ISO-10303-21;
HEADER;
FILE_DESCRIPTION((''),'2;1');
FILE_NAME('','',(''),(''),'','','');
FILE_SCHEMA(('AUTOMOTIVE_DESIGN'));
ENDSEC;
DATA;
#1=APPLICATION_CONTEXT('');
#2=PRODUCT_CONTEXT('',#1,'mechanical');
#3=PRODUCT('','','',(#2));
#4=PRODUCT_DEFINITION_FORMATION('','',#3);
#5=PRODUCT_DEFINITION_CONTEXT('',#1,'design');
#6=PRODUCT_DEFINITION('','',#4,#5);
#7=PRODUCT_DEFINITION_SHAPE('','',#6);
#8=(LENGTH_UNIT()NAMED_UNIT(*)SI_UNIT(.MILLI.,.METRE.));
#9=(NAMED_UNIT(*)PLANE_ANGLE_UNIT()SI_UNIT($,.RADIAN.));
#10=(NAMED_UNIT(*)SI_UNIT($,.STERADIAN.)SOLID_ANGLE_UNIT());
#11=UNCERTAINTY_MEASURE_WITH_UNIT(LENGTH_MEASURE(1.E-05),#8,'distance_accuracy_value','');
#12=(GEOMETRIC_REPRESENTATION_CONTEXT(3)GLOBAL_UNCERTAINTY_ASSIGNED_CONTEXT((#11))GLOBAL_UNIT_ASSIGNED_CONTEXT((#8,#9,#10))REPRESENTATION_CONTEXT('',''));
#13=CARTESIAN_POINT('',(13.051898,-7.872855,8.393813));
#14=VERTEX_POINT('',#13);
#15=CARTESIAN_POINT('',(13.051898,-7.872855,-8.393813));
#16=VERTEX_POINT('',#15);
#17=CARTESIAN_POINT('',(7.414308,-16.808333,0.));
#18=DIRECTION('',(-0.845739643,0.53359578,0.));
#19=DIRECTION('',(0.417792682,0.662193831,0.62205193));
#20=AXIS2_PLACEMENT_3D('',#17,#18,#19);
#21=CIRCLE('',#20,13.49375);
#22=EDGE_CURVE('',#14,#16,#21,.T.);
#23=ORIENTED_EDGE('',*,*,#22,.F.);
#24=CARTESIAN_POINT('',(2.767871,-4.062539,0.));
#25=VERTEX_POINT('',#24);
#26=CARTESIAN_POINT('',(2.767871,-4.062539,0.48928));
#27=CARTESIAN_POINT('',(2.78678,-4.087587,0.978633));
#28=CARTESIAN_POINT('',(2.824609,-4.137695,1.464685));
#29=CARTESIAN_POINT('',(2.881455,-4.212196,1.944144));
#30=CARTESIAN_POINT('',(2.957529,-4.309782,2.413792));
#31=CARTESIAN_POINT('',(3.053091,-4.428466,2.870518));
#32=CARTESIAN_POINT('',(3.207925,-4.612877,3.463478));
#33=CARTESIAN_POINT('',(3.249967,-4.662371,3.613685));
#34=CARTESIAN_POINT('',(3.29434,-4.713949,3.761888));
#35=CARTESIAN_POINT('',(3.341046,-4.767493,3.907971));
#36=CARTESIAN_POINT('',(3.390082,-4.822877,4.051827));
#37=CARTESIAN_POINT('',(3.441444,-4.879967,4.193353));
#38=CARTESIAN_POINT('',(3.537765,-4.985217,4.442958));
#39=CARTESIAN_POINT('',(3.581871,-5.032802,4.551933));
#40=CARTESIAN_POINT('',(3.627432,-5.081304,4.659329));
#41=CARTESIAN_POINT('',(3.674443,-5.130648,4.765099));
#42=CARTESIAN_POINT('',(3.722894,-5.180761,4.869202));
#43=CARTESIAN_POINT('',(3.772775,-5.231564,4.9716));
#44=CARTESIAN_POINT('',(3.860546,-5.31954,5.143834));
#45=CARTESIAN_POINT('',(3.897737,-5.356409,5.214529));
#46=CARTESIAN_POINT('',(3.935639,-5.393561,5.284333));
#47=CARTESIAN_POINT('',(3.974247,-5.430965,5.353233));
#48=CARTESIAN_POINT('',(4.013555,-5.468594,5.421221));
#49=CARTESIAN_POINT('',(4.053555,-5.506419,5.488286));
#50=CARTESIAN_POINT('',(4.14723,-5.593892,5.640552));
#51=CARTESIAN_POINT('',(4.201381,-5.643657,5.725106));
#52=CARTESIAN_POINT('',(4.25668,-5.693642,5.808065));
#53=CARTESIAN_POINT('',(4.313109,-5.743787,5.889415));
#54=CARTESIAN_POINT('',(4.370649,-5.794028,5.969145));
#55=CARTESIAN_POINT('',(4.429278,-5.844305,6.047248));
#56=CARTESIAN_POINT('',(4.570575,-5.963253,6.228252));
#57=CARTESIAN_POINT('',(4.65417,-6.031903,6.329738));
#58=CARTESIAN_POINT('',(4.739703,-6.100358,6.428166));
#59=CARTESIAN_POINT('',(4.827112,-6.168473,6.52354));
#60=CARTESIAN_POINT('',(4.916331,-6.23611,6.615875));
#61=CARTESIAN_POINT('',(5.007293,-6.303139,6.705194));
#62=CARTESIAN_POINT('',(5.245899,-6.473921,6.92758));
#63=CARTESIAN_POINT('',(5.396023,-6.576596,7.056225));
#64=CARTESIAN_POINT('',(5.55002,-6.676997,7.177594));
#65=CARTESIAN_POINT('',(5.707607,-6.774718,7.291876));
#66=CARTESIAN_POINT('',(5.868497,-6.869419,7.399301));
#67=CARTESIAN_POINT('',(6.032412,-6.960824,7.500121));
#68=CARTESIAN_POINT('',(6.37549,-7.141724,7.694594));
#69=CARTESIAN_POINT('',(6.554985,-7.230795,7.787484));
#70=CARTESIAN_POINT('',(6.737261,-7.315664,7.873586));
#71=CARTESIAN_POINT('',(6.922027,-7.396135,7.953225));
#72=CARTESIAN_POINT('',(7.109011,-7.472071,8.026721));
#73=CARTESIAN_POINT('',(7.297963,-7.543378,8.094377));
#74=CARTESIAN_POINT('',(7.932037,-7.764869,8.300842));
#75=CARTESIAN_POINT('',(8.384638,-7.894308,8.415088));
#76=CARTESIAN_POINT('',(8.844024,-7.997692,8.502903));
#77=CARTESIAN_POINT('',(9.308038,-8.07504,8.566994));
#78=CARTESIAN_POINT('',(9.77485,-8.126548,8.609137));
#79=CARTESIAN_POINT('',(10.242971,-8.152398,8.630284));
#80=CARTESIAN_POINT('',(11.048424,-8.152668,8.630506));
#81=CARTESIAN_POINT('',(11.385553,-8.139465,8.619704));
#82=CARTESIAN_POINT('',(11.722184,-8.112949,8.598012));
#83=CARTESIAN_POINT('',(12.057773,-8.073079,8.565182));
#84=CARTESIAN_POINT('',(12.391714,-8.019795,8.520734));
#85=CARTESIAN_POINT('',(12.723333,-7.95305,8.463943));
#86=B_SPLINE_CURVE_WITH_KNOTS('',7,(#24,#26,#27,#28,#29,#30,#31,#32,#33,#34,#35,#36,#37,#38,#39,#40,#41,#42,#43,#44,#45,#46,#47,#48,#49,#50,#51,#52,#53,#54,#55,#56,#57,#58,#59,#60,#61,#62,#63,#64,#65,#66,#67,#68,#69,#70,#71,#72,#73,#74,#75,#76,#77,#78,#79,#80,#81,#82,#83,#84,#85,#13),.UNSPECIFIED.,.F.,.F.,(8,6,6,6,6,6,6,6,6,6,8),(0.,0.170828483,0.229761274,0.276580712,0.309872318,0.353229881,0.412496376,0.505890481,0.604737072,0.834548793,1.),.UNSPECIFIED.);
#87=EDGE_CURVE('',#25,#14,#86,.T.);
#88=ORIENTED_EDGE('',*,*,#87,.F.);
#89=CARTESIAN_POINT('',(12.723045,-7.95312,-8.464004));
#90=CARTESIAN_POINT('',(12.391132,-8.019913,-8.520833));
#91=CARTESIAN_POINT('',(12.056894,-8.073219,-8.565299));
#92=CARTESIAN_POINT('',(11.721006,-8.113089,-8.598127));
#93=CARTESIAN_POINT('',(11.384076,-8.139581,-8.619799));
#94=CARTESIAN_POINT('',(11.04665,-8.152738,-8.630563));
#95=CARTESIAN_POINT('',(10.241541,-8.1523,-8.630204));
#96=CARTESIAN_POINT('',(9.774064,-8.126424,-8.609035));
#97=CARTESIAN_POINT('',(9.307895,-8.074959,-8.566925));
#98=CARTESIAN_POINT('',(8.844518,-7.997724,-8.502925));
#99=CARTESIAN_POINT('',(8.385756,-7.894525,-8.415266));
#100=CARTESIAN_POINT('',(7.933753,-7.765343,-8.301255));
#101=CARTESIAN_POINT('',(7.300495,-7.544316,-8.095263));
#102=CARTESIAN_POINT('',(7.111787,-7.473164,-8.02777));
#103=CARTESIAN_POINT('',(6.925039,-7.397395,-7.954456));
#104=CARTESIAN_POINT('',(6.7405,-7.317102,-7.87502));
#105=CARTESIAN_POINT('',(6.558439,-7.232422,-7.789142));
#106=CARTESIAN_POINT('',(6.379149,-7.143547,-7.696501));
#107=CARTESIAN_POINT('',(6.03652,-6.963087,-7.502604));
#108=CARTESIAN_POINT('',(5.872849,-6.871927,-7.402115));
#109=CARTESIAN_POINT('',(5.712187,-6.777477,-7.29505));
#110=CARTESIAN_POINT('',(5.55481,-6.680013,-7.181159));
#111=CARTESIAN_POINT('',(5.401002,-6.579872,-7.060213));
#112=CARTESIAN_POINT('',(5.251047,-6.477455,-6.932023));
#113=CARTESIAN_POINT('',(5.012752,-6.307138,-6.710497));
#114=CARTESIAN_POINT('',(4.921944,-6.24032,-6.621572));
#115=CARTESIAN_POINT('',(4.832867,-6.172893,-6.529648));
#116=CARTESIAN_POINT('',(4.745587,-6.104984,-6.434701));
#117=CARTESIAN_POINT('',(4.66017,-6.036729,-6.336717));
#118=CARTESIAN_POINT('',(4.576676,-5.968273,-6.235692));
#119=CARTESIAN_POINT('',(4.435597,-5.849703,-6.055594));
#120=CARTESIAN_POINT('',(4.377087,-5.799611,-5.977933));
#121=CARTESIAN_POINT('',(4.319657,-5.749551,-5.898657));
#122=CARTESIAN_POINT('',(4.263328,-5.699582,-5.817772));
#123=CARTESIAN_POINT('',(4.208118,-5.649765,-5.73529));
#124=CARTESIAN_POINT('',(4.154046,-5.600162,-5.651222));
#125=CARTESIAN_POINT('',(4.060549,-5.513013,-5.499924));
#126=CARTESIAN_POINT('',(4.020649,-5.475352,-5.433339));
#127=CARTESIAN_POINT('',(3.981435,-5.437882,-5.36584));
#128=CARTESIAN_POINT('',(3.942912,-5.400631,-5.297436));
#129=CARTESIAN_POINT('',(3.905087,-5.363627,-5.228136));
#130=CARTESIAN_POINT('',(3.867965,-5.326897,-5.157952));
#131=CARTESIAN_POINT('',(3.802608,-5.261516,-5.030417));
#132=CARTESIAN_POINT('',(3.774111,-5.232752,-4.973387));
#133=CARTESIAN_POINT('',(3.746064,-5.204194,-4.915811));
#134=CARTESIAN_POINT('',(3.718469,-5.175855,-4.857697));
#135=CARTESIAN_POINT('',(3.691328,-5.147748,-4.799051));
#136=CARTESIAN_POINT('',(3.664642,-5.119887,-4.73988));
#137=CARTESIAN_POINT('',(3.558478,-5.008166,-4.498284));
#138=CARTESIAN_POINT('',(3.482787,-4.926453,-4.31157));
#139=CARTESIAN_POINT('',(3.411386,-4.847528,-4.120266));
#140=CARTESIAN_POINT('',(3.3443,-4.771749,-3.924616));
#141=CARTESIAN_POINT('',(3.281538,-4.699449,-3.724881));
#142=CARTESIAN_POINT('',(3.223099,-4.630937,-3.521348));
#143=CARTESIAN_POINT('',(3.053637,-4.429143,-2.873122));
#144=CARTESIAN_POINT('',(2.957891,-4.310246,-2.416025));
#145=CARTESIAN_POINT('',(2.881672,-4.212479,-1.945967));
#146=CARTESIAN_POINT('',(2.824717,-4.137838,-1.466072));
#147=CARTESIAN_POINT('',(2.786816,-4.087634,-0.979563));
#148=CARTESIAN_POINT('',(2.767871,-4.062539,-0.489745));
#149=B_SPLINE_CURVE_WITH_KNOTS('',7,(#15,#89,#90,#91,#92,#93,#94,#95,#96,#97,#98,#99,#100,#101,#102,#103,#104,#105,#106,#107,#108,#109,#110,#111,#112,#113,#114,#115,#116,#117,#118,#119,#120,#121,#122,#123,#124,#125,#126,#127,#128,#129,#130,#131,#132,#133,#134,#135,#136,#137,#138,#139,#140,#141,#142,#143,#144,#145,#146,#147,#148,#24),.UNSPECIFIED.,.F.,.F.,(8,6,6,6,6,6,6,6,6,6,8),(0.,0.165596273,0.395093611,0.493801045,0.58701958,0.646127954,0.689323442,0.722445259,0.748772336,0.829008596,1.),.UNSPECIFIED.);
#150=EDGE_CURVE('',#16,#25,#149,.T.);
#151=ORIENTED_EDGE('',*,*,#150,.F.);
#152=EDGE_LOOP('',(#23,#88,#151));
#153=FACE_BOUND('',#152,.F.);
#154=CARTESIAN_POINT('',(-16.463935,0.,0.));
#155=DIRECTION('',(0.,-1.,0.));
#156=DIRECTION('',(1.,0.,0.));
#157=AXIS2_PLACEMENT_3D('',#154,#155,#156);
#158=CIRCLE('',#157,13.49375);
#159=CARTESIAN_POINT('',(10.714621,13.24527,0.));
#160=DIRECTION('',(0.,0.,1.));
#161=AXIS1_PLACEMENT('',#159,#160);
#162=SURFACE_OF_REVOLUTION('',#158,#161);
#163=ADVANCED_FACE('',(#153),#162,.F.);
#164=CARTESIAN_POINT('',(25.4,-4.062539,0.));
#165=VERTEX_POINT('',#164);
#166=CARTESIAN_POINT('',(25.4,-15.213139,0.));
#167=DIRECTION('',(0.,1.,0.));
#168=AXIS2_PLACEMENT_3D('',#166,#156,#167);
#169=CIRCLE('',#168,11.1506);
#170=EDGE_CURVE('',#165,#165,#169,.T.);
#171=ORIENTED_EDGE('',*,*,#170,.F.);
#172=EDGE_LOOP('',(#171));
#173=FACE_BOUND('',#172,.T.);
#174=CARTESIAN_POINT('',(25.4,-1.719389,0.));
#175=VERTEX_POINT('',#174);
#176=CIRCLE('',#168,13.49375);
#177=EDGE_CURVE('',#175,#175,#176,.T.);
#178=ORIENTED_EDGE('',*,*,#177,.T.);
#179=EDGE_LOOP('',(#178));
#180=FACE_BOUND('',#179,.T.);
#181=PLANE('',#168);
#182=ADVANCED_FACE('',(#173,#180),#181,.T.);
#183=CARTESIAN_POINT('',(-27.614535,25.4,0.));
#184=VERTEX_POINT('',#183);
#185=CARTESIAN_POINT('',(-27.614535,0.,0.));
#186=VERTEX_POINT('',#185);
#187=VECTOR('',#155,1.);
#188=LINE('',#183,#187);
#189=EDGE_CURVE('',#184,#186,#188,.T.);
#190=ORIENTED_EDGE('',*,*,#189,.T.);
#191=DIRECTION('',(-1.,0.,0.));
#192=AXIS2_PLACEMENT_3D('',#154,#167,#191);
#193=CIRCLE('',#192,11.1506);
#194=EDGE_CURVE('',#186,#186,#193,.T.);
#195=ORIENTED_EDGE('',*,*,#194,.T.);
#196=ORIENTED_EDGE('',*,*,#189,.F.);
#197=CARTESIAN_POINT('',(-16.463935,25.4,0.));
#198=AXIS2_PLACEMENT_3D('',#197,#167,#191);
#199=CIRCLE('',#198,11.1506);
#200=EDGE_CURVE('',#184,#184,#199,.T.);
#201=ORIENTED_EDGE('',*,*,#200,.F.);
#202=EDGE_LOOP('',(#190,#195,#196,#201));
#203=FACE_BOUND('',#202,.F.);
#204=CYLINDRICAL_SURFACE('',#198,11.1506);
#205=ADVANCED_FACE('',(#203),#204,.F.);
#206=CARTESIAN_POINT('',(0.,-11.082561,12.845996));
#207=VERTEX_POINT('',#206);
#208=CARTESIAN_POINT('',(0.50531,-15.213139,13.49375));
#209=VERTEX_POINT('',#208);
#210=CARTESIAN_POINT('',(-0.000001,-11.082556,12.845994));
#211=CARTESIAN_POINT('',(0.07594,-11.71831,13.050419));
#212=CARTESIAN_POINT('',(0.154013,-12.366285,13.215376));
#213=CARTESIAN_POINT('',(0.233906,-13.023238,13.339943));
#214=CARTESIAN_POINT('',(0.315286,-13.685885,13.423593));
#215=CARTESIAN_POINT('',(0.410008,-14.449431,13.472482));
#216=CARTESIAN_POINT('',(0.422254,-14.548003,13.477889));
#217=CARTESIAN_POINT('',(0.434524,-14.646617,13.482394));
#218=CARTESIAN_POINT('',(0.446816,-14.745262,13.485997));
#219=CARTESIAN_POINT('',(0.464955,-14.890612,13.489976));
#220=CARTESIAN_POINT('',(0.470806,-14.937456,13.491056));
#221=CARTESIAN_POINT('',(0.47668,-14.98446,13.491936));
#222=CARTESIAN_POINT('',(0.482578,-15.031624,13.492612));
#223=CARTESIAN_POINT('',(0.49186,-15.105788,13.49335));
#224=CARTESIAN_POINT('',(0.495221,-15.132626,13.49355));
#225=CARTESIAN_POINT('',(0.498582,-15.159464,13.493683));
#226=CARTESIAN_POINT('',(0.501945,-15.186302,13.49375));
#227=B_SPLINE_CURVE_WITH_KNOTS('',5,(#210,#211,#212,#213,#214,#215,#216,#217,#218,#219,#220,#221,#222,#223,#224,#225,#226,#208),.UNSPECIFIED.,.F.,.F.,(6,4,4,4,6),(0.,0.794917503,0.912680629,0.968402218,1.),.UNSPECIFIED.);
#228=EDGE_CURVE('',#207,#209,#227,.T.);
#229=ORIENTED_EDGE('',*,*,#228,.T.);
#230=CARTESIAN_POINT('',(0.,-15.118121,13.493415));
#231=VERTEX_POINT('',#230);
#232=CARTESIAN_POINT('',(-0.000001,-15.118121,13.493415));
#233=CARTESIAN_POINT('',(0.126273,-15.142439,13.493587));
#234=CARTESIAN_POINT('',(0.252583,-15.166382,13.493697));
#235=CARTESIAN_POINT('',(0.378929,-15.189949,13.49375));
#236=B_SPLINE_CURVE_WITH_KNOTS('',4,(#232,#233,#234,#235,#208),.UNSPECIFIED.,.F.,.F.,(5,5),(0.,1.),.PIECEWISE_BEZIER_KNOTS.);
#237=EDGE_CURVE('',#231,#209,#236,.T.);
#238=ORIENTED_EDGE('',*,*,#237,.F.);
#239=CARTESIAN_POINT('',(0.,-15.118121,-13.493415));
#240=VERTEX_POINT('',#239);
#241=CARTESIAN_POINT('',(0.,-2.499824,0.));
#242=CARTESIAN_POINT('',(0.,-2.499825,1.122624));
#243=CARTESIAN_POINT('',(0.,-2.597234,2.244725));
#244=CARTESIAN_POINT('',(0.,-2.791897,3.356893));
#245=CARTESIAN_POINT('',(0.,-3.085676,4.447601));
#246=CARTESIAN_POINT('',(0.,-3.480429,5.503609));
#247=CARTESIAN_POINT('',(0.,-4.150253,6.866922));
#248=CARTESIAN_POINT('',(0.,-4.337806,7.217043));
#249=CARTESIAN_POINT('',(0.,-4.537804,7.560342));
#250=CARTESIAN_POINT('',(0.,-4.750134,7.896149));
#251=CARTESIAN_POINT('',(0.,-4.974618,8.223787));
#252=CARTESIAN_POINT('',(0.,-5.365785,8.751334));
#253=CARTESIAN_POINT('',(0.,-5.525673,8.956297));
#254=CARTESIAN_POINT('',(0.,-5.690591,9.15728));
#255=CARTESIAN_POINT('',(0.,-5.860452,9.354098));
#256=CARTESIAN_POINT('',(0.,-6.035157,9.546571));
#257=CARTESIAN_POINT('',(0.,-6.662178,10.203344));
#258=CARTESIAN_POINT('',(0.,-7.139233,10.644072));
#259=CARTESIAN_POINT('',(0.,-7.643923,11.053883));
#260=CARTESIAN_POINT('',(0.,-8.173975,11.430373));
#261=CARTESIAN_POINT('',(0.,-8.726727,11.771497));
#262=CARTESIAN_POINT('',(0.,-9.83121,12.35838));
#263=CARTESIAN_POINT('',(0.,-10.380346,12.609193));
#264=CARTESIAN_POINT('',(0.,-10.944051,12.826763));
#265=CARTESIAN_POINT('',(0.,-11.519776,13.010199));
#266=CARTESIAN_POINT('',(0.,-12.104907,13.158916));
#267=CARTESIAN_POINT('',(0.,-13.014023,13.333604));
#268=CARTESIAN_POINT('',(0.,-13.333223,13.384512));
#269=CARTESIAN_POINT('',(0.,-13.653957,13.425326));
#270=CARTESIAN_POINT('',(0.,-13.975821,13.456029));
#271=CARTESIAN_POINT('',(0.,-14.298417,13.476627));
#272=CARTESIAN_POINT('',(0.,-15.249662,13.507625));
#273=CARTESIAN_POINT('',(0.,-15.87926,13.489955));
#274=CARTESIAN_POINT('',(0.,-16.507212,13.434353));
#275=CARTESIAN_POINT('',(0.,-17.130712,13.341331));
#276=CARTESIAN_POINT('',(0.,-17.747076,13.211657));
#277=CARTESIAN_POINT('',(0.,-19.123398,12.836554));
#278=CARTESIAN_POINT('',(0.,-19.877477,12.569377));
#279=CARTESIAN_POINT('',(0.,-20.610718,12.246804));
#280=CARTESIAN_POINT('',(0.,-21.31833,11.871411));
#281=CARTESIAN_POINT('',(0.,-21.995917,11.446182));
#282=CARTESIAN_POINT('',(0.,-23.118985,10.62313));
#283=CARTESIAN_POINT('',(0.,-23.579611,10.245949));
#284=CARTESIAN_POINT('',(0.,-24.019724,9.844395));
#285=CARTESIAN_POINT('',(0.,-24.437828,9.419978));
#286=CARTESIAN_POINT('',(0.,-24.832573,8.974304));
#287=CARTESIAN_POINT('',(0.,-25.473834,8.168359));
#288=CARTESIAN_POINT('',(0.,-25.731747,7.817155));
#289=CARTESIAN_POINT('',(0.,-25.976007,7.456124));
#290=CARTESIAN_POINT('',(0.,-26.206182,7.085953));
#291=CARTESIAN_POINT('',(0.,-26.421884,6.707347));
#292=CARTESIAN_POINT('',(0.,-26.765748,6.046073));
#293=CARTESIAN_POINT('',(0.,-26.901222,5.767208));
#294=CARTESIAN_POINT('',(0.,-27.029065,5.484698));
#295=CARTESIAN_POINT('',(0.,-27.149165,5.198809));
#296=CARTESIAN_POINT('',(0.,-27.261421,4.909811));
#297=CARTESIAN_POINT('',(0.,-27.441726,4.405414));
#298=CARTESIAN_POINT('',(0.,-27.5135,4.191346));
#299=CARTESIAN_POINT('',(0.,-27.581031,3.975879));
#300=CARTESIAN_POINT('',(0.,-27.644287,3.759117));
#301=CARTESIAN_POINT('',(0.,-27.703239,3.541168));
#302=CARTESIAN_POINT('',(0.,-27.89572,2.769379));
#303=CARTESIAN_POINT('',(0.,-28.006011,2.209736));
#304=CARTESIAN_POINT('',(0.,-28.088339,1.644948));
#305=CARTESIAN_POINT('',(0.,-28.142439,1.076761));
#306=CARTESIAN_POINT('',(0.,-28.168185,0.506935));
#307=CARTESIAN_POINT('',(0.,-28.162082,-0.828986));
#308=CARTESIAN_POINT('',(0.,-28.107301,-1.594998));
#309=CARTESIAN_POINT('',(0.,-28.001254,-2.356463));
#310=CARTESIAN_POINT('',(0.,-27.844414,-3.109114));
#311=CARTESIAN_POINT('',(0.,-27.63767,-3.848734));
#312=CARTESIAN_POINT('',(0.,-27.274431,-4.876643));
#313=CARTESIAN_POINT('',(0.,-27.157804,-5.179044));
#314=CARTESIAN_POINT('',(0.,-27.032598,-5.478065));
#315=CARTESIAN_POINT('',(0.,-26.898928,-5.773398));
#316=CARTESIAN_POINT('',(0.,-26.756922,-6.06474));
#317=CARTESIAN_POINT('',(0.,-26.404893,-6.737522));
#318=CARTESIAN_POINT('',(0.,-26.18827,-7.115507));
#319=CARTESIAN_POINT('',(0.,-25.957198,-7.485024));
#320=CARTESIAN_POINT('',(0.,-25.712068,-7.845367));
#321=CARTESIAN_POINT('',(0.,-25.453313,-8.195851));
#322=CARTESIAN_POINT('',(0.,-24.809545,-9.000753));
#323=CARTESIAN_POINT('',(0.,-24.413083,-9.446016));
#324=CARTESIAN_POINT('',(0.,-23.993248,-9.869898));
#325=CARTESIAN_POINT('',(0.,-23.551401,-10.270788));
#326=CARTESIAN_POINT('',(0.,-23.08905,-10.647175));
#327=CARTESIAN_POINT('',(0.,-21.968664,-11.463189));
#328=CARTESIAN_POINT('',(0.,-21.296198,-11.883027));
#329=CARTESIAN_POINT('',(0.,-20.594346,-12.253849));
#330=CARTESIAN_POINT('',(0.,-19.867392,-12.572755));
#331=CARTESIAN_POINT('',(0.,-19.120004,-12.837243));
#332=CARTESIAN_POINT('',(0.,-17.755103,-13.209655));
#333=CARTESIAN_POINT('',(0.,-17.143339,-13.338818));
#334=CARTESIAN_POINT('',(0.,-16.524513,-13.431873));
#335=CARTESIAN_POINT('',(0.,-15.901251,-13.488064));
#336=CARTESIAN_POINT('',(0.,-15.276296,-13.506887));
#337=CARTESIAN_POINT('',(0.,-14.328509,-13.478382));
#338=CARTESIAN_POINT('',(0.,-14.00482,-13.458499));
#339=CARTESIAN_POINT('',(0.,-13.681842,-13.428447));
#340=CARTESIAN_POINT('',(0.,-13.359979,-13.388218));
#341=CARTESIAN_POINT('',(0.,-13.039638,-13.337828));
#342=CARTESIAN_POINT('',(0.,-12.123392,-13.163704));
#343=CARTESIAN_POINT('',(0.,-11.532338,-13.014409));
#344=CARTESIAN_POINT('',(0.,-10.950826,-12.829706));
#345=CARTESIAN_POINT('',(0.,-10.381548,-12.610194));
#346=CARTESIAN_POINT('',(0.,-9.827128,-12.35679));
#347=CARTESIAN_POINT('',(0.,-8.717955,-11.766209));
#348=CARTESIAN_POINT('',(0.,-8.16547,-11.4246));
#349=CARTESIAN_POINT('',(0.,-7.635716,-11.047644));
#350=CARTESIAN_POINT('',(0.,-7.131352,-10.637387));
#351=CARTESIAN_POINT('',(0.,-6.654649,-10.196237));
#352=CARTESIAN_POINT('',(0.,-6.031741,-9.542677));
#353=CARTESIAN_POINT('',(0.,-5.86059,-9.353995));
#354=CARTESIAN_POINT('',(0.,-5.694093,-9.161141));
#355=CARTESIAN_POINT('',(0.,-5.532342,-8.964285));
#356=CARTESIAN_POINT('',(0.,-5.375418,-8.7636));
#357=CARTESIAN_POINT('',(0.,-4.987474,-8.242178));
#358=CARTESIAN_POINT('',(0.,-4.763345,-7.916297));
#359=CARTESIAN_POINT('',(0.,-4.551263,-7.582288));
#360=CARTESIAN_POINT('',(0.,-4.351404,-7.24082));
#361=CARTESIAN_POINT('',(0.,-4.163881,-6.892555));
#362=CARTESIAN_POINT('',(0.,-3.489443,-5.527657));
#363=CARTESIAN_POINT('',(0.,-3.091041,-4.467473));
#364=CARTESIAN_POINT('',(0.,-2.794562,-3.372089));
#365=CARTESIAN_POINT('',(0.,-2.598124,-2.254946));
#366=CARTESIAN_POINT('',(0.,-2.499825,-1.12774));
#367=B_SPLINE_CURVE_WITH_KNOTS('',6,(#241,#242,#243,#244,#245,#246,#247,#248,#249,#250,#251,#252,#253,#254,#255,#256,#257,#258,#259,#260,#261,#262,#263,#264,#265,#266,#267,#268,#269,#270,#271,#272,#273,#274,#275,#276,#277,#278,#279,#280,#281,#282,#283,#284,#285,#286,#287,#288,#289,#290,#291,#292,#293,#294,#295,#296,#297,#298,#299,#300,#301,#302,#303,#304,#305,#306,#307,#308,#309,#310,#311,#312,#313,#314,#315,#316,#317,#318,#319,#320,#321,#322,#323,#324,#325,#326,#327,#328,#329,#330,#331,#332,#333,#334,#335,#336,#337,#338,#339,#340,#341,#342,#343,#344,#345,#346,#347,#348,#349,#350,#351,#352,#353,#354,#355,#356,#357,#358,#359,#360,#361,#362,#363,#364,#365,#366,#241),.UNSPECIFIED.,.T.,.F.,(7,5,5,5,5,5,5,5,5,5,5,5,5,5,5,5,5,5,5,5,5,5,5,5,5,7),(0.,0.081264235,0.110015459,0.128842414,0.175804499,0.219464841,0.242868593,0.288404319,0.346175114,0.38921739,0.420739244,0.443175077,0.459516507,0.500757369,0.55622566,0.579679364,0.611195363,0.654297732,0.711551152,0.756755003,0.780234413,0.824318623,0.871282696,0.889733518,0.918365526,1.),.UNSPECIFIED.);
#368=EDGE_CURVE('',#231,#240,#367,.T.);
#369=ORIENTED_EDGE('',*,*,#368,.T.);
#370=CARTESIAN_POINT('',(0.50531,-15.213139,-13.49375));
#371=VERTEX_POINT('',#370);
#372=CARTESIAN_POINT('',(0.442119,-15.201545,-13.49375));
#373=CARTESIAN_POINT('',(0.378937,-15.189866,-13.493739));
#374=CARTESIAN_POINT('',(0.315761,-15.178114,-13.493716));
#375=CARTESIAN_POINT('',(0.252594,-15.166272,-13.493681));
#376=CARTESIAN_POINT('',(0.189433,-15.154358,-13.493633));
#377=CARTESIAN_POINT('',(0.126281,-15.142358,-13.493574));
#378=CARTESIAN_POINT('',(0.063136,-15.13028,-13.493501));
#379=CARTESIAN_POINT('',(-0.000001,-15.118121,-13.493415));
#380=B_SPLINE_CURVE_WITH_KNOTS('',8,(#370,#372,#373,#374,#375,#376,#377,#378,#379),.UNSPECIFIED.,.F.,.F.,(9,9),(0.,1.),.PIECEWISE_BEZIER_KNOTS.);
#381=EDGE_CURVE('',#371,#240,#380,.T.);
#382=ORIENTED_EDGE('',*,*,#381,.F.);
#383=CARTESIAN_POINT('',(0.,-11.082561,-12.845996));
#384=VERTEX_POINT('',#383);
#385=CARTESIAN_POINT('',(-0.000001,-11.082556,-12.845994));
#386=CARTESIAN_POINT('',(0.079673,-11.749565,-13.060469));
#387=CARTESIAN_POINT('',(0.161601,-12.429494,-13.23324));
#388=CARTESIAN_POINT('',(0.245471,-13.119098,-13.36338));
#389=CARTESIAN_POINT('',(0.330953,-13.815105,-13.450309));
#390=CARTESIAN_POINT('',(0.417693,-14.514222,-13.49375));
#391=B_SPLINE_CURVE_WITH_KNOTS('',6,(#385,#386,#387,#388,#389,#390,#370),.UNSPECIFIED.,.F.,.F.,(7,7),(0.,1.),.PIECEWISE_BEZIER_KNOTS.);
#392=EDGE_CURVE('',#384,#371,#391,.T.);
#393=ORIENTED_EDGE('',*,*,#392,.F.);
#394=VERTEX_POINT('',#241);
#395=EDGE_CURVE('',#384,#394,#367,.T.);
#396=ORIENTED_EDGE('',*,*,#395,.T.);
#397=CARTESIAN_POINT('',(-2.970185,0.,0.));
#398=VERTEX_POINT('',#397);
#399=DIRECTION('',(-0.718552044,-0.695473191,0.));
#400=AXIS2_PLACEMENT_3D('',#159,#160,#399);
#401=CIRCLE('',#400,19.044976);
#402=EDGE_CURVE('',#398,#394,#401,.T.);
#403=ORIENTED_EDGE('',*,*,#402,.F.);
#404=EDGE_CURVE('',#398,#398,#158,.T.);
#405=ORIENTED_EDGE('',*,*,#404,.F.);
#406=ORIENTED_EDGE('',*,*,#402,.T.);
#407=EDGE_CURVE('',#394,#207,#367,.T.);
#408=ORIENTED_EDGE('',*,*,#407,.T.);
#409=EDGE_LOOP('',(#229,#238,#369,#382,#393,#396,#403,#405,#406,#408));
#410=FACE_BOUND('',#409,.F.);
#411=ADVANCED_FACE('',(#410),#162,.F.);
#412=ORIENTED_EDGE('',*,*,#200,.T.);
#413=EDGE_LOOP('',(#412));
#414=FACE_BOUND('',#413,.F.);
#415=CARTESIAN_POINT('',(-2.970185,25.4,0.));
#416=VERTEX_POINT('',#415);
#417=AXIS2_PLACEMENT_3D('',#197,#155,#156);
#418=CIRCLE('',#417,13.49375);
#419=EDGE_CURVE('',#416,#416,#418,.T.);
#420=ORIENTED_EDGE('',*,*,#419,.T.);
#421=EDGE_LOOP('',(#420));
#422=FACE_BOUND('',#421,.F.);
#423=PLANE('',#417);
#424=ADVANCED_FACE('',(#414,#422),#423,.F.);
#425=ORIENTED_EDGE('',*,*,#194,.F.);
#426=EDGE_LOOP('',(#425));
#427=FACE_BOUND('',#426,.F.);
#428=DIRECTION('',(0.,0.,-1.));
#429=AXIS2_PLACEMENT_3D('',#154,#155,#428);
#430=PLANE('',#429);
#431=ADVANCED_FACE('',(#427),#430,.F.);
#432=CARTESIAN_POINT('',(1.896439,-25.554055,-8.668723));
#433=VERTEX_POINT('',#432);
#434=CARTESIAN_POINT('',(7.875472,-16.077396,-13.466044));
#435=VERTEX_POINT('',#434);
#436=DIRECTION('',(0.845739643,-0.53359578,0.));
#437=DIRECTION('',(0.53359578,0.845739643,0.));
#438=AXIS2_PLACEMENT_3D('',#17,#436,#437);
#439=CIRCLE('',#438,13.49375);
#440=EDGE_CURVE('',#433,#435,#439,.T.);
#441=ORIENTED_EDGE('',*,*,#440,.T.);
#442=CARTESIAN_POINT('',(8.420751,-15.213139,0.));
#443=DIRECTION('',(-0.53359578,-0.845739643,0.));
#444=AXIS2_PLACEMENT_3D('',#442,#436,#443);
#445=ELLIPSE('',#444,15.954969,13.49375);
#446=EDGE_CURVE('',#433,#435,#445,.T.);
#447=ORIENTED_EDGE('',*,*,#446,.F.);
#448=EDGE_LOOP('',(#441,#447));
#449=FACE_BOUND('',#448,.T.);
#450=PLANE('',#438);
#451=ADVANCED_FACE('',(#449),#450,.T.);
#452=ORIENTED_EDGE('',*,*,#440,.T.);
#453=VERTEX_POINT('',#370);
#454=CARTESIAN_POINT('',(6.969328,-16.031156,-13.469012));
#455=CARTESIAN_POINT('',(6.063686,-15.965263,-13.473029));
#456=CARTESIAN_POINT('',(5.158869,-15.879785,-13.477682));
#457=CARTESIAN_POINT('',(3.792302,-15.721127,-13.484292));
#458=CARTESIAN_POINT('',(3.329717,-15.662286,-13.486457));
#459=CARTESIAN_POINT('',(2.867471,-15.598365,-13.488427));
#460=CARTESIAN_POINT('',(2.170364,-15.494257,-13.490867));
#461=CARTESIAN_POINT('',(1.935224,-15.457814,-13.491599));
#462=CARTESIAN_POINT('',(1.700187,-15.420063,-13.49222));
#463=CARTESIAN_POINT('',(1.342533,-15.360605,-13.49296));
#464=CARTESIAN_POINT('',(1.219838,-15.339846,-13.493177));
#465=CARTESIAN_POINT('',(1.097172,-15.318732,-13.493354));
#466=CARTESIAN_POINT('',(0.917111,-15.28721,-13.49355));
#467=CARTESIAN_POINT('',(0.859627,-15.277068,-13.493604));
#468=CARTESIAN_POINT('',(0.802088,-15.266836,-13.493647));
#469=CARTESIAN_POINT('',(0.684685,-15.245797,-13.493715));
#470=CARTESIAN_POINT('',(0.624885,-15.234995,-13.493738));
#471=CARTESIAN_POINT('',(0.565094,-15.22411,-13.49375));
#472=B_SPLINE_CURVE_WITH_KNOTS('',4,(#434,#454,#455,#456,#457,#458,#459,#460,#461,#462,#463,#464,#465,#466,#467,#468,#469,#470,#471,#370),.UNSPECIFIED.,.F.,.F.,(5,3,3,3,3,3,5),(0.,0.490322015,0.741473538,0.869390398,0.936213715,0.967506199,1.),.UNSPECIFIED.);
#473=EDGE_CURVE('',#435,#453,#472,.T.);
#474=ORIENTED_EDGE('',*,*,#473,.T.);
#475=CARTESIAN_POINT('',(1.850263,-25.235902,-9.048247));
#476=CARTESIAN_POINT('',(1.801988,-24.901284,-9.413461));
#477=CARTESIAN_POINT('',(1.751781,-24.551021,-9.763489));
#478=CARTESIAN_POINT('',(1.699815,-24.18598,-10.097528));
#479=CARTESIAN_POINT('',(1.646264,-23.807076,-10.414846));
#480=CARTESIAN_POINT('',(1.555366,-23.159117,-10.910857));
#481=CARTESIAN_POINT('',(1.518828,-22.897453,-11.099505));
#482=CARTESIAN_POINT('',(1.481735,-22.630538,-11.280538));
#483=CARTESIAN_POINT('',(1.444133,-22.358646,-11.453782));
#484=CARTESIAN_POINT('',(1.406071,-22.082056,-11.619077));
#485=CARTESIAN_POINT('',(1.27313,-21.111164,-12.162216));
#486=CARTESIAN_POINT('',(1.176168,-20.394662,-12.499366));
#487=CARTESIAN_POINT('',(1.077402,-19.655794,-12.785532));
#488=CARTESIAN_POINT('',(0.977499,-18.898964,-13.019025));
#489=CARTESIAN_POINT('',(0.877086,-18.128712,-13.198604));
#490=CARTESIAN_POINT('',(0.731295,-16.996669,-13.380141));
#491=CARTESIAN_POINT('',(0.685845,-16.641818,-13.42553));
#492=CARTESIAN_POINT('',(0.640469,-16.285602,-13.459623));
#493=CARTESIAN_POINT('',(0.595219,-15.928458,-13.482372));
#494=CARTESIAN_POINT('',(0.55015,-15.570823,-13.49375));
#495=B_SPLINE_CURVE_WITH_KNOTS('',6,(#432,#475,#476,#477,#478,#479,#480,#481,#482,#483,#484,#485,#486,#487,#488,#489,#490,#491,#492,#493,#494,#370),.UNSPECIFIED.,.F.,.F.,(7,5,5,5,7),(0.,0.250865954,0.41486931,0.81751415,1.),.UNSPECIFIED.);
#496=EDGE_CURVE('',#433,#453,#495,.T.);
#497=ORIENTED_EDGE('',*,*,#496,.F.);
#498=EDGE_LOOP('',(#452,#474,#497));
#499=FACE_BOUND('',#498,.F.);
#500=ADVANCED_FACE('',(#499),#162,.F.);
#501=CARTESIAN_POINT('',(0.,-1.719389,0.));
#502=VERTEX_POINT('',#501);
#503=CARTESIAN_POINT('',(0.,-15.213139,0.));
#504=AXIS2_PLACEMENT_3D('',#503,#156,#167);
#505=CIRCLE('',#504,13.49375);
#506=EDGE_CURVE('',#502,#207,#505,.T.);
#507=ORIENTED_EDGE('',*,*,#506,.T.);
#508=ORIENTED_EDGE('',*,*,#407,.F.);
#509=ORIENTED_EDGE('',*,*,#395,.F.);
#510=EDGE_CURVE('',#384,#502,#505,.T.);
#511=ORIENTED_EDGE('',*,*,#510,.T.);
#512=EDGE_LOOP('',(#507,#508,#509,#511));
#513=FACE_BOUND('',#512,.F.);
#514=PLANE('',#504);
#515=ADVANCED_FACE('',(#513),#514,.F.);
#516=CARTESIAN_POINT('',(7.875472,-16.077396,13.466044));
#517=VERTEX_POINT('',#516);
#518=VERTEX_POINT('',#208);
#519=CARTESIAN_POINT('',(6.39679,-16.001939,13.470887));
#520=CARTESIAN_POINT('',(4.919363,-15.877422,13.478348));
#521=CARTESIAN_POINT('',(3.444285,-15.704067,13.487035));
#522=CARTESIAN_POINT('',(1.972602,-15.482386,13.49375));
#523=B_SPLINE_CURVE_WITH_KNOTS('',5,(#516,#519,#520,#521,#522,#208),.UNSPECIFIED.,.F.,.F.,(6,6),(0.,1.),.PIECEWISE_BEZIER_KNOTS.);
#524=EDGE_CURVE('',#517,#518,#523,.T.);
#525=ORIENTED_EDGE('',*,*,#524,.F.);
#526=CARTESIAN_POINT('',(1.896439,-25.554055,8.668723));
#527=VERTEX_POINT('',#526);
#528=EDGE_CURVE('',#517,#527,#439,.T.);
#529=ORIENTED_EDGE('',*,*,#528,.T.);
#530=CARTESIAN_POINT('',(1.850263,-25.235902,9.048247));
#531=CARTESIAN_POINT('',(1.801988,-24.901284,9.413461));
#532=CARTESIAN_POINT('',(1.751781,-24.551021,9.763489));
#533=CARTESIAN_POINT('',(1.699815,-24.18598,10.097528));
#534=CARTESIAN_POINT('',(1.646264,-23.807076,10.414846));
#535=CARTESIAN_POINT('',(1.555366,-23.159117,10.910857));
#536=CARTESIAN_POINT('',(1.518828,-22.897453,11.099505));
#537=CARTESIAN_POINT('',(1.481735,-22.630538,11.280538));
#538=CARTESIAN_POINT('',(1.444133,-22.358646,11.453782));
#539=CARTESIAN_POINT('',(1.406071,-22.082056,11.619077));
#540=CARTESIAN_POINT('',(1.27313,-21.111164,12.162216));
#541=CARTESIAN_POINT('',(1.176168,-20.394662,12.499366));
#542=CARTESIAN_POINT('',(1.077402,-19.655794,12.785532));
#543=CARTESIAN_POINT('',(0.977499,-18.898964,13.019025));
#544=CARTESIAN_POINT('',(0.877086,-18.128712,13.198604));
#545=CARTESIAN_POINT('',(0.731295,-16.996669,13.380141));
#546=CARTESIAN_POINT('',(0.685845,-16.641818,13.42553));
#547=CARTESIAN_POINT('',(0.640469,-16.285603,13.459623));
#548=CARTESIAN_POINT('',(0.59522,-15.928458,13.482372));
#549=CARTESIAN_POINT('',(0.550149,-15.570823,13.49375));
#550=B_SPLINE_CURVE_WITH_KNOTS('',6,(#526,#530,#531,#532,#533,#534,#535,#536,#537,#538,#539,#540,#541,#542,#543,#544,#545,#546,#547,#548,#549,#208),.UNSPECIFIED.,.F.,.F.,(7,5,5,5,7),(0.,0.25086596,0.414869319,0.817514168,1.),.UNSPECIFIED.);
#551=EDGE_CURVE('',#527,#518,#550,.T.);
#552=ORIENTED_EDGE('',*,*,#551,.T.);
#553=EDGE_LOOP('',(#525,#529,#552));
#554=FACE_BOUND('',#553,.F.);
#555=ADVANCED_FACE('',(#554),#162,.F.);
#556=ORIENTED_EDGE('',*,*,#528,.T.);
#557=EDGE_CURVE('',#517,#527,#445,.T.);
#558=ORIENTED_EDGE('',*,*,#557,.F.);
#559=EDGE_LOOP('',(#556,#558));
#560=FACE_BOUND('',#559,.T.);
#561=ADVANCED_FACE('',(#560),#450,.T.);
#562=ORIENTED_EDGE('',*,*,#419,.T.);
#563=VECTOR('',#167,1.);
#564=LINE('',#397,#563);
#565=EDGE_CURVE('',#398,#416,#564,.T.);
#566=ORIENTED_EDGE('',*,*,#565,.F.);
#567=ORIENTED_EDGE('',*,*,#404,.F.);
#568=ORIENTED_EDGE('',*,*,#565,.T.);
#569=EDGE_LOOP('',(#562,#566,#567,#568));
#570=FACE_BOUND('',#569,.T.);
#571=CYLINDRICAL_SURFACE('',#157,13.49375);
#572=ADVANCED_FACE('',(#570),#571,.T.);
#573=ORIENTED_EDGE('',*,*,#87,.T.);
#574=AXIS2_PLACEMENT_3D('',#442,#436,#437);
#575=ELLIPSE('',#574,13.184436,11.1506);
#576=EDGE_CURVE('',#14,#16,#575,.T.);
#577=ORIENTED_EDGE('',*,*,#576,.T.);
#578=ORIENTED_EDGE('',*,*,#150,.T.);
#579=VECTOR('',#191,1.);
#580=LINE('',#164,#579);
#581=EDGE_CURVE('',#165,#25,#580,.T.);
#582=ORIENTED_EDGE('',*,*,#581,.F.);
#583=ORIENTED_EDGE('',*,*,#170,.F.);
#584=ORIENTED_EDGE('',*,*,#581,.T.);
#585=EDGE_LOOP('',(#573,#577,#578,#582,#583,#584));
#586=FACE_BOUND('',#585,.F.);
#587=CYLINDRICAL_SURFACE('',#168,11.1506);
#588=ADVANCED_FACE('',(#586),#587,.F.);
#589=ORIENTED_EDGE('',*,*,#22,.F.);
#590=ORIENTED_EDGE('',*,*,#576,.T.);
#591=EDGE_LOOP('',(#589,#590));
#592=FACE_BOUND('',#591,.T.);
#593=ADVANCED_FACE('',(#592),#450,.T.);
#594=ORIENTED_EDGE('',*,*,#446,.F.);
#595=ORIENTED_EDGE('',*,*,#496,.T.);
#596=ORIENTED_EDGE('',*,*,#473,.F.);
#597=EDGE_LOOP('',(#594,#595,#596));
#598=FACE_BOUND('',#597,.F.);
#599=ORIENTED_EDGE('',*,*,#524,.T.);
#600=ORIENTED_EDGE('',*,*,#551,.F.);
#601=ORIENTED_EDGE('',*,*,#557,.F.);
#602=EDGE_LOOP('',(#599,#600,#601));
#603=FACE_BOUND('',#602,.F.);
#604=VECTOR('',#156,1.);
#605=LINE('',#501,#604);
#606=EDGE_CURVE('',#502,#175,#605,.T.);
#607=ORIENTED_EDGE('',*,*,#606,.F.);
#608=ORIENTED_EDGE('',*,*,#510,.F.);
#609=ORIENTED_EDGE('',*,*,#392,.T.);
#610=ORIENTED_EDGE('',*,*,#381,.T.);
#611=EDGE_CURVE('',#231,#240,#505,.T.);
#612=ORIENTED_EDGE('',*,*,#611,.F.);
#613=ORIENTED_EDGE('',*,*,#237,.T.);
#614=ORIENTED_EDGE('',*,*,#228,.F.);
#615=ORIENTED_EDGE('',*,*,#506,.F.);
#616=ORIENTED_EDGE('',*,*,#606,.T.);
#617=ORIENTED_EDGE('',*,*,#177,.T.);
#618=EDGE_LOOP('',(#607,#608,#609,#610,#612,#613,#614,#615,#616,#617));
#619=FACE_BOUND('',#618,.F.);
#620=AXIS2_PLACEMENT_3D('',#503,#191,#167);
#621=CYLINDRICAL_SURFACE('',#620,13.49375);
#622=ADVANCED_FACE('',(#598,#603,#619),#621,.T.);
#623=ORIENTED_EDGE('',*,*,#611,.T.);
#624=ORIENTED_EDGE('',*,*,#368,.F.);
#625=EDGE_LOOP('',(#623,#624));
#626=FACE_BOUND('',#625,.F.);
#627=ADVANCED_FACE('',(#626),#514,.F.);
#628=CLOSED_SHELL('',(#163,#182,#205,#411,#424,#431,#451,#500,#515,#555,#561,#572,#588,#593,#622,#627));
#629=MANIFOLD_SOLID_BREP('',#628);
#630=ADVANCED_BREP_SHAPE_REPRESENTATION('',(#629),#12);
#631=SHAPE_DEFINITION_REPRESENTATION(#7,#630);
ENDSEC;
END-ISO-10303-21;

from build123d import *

# Parameters (mm, degrees)
F0_R     = 13.49375
F1_DEPTH = 25.4
F2_R     = 13.49375
F3_DEPTH = 25.4
F5_R     = 11.1506
F6_DEPTH = 46.736
F7_R     = 11.1506
F8_DEPTH = 50.8
F4_R     = 13.49375


with BuildPart() as f1:
    # F0 (on Right) → F1 (new body)
    with BuildSketch(Plane.YZ):
        with Locations((-15.2131393552, 0)):
            Circle(F0_R)
    extrude(amount=F1_DEPTH)

    # F5 (on face) → F6 (cut)
    with BuildSketch(Plane.YZ.offset(25.4)):
        with Locations((-15.2131393552, 0)):
            Circle(F5_R)
    extrude(amount=-F6_DEPTH, mode=Mode.SUBTRACT)



with BuildPart() as f3:
    # F2 (on Front) → F3 (new body)
    with BuildSketch(Plane.XZ):
        with Locations((-16.4639353752, 0)):
            Circle(F2_R)
    extrude(amount=-F3_DEPTH)

    # F7 (on face) → F8 (cut)
    with BuildSketch(Plane(origin=(0, 25.4, 0), x_dir=(-1, 0, 0), z_dir=(0, 1, 0))):
        with Locations((16.4639353752, 0)):
            Circle(F7_R)
    extrude(amount=-F8_DEPTH, mode=Mode.SUBTRACT)


with BuildPart() as f1_1:
    add(f1.part)

    add(f3.part)  # F10 merges F3
    # F10: sweep along a path in F9
    with BuildLine(Plane.XY) as f10_path:
        ThreePointArc((-30.3589254618, 0), (-18.8559760564, -18.1880432135), (0, -28.5598766059))
    # F4 (on face) → F10 (sweep)
    with BuildSketch(Plane.XZ):
        with Locations((-16.4639353752, 0)):
            Circle(F4_R)
    sweep(path=f10_path.line)


solid = f1_1.part
